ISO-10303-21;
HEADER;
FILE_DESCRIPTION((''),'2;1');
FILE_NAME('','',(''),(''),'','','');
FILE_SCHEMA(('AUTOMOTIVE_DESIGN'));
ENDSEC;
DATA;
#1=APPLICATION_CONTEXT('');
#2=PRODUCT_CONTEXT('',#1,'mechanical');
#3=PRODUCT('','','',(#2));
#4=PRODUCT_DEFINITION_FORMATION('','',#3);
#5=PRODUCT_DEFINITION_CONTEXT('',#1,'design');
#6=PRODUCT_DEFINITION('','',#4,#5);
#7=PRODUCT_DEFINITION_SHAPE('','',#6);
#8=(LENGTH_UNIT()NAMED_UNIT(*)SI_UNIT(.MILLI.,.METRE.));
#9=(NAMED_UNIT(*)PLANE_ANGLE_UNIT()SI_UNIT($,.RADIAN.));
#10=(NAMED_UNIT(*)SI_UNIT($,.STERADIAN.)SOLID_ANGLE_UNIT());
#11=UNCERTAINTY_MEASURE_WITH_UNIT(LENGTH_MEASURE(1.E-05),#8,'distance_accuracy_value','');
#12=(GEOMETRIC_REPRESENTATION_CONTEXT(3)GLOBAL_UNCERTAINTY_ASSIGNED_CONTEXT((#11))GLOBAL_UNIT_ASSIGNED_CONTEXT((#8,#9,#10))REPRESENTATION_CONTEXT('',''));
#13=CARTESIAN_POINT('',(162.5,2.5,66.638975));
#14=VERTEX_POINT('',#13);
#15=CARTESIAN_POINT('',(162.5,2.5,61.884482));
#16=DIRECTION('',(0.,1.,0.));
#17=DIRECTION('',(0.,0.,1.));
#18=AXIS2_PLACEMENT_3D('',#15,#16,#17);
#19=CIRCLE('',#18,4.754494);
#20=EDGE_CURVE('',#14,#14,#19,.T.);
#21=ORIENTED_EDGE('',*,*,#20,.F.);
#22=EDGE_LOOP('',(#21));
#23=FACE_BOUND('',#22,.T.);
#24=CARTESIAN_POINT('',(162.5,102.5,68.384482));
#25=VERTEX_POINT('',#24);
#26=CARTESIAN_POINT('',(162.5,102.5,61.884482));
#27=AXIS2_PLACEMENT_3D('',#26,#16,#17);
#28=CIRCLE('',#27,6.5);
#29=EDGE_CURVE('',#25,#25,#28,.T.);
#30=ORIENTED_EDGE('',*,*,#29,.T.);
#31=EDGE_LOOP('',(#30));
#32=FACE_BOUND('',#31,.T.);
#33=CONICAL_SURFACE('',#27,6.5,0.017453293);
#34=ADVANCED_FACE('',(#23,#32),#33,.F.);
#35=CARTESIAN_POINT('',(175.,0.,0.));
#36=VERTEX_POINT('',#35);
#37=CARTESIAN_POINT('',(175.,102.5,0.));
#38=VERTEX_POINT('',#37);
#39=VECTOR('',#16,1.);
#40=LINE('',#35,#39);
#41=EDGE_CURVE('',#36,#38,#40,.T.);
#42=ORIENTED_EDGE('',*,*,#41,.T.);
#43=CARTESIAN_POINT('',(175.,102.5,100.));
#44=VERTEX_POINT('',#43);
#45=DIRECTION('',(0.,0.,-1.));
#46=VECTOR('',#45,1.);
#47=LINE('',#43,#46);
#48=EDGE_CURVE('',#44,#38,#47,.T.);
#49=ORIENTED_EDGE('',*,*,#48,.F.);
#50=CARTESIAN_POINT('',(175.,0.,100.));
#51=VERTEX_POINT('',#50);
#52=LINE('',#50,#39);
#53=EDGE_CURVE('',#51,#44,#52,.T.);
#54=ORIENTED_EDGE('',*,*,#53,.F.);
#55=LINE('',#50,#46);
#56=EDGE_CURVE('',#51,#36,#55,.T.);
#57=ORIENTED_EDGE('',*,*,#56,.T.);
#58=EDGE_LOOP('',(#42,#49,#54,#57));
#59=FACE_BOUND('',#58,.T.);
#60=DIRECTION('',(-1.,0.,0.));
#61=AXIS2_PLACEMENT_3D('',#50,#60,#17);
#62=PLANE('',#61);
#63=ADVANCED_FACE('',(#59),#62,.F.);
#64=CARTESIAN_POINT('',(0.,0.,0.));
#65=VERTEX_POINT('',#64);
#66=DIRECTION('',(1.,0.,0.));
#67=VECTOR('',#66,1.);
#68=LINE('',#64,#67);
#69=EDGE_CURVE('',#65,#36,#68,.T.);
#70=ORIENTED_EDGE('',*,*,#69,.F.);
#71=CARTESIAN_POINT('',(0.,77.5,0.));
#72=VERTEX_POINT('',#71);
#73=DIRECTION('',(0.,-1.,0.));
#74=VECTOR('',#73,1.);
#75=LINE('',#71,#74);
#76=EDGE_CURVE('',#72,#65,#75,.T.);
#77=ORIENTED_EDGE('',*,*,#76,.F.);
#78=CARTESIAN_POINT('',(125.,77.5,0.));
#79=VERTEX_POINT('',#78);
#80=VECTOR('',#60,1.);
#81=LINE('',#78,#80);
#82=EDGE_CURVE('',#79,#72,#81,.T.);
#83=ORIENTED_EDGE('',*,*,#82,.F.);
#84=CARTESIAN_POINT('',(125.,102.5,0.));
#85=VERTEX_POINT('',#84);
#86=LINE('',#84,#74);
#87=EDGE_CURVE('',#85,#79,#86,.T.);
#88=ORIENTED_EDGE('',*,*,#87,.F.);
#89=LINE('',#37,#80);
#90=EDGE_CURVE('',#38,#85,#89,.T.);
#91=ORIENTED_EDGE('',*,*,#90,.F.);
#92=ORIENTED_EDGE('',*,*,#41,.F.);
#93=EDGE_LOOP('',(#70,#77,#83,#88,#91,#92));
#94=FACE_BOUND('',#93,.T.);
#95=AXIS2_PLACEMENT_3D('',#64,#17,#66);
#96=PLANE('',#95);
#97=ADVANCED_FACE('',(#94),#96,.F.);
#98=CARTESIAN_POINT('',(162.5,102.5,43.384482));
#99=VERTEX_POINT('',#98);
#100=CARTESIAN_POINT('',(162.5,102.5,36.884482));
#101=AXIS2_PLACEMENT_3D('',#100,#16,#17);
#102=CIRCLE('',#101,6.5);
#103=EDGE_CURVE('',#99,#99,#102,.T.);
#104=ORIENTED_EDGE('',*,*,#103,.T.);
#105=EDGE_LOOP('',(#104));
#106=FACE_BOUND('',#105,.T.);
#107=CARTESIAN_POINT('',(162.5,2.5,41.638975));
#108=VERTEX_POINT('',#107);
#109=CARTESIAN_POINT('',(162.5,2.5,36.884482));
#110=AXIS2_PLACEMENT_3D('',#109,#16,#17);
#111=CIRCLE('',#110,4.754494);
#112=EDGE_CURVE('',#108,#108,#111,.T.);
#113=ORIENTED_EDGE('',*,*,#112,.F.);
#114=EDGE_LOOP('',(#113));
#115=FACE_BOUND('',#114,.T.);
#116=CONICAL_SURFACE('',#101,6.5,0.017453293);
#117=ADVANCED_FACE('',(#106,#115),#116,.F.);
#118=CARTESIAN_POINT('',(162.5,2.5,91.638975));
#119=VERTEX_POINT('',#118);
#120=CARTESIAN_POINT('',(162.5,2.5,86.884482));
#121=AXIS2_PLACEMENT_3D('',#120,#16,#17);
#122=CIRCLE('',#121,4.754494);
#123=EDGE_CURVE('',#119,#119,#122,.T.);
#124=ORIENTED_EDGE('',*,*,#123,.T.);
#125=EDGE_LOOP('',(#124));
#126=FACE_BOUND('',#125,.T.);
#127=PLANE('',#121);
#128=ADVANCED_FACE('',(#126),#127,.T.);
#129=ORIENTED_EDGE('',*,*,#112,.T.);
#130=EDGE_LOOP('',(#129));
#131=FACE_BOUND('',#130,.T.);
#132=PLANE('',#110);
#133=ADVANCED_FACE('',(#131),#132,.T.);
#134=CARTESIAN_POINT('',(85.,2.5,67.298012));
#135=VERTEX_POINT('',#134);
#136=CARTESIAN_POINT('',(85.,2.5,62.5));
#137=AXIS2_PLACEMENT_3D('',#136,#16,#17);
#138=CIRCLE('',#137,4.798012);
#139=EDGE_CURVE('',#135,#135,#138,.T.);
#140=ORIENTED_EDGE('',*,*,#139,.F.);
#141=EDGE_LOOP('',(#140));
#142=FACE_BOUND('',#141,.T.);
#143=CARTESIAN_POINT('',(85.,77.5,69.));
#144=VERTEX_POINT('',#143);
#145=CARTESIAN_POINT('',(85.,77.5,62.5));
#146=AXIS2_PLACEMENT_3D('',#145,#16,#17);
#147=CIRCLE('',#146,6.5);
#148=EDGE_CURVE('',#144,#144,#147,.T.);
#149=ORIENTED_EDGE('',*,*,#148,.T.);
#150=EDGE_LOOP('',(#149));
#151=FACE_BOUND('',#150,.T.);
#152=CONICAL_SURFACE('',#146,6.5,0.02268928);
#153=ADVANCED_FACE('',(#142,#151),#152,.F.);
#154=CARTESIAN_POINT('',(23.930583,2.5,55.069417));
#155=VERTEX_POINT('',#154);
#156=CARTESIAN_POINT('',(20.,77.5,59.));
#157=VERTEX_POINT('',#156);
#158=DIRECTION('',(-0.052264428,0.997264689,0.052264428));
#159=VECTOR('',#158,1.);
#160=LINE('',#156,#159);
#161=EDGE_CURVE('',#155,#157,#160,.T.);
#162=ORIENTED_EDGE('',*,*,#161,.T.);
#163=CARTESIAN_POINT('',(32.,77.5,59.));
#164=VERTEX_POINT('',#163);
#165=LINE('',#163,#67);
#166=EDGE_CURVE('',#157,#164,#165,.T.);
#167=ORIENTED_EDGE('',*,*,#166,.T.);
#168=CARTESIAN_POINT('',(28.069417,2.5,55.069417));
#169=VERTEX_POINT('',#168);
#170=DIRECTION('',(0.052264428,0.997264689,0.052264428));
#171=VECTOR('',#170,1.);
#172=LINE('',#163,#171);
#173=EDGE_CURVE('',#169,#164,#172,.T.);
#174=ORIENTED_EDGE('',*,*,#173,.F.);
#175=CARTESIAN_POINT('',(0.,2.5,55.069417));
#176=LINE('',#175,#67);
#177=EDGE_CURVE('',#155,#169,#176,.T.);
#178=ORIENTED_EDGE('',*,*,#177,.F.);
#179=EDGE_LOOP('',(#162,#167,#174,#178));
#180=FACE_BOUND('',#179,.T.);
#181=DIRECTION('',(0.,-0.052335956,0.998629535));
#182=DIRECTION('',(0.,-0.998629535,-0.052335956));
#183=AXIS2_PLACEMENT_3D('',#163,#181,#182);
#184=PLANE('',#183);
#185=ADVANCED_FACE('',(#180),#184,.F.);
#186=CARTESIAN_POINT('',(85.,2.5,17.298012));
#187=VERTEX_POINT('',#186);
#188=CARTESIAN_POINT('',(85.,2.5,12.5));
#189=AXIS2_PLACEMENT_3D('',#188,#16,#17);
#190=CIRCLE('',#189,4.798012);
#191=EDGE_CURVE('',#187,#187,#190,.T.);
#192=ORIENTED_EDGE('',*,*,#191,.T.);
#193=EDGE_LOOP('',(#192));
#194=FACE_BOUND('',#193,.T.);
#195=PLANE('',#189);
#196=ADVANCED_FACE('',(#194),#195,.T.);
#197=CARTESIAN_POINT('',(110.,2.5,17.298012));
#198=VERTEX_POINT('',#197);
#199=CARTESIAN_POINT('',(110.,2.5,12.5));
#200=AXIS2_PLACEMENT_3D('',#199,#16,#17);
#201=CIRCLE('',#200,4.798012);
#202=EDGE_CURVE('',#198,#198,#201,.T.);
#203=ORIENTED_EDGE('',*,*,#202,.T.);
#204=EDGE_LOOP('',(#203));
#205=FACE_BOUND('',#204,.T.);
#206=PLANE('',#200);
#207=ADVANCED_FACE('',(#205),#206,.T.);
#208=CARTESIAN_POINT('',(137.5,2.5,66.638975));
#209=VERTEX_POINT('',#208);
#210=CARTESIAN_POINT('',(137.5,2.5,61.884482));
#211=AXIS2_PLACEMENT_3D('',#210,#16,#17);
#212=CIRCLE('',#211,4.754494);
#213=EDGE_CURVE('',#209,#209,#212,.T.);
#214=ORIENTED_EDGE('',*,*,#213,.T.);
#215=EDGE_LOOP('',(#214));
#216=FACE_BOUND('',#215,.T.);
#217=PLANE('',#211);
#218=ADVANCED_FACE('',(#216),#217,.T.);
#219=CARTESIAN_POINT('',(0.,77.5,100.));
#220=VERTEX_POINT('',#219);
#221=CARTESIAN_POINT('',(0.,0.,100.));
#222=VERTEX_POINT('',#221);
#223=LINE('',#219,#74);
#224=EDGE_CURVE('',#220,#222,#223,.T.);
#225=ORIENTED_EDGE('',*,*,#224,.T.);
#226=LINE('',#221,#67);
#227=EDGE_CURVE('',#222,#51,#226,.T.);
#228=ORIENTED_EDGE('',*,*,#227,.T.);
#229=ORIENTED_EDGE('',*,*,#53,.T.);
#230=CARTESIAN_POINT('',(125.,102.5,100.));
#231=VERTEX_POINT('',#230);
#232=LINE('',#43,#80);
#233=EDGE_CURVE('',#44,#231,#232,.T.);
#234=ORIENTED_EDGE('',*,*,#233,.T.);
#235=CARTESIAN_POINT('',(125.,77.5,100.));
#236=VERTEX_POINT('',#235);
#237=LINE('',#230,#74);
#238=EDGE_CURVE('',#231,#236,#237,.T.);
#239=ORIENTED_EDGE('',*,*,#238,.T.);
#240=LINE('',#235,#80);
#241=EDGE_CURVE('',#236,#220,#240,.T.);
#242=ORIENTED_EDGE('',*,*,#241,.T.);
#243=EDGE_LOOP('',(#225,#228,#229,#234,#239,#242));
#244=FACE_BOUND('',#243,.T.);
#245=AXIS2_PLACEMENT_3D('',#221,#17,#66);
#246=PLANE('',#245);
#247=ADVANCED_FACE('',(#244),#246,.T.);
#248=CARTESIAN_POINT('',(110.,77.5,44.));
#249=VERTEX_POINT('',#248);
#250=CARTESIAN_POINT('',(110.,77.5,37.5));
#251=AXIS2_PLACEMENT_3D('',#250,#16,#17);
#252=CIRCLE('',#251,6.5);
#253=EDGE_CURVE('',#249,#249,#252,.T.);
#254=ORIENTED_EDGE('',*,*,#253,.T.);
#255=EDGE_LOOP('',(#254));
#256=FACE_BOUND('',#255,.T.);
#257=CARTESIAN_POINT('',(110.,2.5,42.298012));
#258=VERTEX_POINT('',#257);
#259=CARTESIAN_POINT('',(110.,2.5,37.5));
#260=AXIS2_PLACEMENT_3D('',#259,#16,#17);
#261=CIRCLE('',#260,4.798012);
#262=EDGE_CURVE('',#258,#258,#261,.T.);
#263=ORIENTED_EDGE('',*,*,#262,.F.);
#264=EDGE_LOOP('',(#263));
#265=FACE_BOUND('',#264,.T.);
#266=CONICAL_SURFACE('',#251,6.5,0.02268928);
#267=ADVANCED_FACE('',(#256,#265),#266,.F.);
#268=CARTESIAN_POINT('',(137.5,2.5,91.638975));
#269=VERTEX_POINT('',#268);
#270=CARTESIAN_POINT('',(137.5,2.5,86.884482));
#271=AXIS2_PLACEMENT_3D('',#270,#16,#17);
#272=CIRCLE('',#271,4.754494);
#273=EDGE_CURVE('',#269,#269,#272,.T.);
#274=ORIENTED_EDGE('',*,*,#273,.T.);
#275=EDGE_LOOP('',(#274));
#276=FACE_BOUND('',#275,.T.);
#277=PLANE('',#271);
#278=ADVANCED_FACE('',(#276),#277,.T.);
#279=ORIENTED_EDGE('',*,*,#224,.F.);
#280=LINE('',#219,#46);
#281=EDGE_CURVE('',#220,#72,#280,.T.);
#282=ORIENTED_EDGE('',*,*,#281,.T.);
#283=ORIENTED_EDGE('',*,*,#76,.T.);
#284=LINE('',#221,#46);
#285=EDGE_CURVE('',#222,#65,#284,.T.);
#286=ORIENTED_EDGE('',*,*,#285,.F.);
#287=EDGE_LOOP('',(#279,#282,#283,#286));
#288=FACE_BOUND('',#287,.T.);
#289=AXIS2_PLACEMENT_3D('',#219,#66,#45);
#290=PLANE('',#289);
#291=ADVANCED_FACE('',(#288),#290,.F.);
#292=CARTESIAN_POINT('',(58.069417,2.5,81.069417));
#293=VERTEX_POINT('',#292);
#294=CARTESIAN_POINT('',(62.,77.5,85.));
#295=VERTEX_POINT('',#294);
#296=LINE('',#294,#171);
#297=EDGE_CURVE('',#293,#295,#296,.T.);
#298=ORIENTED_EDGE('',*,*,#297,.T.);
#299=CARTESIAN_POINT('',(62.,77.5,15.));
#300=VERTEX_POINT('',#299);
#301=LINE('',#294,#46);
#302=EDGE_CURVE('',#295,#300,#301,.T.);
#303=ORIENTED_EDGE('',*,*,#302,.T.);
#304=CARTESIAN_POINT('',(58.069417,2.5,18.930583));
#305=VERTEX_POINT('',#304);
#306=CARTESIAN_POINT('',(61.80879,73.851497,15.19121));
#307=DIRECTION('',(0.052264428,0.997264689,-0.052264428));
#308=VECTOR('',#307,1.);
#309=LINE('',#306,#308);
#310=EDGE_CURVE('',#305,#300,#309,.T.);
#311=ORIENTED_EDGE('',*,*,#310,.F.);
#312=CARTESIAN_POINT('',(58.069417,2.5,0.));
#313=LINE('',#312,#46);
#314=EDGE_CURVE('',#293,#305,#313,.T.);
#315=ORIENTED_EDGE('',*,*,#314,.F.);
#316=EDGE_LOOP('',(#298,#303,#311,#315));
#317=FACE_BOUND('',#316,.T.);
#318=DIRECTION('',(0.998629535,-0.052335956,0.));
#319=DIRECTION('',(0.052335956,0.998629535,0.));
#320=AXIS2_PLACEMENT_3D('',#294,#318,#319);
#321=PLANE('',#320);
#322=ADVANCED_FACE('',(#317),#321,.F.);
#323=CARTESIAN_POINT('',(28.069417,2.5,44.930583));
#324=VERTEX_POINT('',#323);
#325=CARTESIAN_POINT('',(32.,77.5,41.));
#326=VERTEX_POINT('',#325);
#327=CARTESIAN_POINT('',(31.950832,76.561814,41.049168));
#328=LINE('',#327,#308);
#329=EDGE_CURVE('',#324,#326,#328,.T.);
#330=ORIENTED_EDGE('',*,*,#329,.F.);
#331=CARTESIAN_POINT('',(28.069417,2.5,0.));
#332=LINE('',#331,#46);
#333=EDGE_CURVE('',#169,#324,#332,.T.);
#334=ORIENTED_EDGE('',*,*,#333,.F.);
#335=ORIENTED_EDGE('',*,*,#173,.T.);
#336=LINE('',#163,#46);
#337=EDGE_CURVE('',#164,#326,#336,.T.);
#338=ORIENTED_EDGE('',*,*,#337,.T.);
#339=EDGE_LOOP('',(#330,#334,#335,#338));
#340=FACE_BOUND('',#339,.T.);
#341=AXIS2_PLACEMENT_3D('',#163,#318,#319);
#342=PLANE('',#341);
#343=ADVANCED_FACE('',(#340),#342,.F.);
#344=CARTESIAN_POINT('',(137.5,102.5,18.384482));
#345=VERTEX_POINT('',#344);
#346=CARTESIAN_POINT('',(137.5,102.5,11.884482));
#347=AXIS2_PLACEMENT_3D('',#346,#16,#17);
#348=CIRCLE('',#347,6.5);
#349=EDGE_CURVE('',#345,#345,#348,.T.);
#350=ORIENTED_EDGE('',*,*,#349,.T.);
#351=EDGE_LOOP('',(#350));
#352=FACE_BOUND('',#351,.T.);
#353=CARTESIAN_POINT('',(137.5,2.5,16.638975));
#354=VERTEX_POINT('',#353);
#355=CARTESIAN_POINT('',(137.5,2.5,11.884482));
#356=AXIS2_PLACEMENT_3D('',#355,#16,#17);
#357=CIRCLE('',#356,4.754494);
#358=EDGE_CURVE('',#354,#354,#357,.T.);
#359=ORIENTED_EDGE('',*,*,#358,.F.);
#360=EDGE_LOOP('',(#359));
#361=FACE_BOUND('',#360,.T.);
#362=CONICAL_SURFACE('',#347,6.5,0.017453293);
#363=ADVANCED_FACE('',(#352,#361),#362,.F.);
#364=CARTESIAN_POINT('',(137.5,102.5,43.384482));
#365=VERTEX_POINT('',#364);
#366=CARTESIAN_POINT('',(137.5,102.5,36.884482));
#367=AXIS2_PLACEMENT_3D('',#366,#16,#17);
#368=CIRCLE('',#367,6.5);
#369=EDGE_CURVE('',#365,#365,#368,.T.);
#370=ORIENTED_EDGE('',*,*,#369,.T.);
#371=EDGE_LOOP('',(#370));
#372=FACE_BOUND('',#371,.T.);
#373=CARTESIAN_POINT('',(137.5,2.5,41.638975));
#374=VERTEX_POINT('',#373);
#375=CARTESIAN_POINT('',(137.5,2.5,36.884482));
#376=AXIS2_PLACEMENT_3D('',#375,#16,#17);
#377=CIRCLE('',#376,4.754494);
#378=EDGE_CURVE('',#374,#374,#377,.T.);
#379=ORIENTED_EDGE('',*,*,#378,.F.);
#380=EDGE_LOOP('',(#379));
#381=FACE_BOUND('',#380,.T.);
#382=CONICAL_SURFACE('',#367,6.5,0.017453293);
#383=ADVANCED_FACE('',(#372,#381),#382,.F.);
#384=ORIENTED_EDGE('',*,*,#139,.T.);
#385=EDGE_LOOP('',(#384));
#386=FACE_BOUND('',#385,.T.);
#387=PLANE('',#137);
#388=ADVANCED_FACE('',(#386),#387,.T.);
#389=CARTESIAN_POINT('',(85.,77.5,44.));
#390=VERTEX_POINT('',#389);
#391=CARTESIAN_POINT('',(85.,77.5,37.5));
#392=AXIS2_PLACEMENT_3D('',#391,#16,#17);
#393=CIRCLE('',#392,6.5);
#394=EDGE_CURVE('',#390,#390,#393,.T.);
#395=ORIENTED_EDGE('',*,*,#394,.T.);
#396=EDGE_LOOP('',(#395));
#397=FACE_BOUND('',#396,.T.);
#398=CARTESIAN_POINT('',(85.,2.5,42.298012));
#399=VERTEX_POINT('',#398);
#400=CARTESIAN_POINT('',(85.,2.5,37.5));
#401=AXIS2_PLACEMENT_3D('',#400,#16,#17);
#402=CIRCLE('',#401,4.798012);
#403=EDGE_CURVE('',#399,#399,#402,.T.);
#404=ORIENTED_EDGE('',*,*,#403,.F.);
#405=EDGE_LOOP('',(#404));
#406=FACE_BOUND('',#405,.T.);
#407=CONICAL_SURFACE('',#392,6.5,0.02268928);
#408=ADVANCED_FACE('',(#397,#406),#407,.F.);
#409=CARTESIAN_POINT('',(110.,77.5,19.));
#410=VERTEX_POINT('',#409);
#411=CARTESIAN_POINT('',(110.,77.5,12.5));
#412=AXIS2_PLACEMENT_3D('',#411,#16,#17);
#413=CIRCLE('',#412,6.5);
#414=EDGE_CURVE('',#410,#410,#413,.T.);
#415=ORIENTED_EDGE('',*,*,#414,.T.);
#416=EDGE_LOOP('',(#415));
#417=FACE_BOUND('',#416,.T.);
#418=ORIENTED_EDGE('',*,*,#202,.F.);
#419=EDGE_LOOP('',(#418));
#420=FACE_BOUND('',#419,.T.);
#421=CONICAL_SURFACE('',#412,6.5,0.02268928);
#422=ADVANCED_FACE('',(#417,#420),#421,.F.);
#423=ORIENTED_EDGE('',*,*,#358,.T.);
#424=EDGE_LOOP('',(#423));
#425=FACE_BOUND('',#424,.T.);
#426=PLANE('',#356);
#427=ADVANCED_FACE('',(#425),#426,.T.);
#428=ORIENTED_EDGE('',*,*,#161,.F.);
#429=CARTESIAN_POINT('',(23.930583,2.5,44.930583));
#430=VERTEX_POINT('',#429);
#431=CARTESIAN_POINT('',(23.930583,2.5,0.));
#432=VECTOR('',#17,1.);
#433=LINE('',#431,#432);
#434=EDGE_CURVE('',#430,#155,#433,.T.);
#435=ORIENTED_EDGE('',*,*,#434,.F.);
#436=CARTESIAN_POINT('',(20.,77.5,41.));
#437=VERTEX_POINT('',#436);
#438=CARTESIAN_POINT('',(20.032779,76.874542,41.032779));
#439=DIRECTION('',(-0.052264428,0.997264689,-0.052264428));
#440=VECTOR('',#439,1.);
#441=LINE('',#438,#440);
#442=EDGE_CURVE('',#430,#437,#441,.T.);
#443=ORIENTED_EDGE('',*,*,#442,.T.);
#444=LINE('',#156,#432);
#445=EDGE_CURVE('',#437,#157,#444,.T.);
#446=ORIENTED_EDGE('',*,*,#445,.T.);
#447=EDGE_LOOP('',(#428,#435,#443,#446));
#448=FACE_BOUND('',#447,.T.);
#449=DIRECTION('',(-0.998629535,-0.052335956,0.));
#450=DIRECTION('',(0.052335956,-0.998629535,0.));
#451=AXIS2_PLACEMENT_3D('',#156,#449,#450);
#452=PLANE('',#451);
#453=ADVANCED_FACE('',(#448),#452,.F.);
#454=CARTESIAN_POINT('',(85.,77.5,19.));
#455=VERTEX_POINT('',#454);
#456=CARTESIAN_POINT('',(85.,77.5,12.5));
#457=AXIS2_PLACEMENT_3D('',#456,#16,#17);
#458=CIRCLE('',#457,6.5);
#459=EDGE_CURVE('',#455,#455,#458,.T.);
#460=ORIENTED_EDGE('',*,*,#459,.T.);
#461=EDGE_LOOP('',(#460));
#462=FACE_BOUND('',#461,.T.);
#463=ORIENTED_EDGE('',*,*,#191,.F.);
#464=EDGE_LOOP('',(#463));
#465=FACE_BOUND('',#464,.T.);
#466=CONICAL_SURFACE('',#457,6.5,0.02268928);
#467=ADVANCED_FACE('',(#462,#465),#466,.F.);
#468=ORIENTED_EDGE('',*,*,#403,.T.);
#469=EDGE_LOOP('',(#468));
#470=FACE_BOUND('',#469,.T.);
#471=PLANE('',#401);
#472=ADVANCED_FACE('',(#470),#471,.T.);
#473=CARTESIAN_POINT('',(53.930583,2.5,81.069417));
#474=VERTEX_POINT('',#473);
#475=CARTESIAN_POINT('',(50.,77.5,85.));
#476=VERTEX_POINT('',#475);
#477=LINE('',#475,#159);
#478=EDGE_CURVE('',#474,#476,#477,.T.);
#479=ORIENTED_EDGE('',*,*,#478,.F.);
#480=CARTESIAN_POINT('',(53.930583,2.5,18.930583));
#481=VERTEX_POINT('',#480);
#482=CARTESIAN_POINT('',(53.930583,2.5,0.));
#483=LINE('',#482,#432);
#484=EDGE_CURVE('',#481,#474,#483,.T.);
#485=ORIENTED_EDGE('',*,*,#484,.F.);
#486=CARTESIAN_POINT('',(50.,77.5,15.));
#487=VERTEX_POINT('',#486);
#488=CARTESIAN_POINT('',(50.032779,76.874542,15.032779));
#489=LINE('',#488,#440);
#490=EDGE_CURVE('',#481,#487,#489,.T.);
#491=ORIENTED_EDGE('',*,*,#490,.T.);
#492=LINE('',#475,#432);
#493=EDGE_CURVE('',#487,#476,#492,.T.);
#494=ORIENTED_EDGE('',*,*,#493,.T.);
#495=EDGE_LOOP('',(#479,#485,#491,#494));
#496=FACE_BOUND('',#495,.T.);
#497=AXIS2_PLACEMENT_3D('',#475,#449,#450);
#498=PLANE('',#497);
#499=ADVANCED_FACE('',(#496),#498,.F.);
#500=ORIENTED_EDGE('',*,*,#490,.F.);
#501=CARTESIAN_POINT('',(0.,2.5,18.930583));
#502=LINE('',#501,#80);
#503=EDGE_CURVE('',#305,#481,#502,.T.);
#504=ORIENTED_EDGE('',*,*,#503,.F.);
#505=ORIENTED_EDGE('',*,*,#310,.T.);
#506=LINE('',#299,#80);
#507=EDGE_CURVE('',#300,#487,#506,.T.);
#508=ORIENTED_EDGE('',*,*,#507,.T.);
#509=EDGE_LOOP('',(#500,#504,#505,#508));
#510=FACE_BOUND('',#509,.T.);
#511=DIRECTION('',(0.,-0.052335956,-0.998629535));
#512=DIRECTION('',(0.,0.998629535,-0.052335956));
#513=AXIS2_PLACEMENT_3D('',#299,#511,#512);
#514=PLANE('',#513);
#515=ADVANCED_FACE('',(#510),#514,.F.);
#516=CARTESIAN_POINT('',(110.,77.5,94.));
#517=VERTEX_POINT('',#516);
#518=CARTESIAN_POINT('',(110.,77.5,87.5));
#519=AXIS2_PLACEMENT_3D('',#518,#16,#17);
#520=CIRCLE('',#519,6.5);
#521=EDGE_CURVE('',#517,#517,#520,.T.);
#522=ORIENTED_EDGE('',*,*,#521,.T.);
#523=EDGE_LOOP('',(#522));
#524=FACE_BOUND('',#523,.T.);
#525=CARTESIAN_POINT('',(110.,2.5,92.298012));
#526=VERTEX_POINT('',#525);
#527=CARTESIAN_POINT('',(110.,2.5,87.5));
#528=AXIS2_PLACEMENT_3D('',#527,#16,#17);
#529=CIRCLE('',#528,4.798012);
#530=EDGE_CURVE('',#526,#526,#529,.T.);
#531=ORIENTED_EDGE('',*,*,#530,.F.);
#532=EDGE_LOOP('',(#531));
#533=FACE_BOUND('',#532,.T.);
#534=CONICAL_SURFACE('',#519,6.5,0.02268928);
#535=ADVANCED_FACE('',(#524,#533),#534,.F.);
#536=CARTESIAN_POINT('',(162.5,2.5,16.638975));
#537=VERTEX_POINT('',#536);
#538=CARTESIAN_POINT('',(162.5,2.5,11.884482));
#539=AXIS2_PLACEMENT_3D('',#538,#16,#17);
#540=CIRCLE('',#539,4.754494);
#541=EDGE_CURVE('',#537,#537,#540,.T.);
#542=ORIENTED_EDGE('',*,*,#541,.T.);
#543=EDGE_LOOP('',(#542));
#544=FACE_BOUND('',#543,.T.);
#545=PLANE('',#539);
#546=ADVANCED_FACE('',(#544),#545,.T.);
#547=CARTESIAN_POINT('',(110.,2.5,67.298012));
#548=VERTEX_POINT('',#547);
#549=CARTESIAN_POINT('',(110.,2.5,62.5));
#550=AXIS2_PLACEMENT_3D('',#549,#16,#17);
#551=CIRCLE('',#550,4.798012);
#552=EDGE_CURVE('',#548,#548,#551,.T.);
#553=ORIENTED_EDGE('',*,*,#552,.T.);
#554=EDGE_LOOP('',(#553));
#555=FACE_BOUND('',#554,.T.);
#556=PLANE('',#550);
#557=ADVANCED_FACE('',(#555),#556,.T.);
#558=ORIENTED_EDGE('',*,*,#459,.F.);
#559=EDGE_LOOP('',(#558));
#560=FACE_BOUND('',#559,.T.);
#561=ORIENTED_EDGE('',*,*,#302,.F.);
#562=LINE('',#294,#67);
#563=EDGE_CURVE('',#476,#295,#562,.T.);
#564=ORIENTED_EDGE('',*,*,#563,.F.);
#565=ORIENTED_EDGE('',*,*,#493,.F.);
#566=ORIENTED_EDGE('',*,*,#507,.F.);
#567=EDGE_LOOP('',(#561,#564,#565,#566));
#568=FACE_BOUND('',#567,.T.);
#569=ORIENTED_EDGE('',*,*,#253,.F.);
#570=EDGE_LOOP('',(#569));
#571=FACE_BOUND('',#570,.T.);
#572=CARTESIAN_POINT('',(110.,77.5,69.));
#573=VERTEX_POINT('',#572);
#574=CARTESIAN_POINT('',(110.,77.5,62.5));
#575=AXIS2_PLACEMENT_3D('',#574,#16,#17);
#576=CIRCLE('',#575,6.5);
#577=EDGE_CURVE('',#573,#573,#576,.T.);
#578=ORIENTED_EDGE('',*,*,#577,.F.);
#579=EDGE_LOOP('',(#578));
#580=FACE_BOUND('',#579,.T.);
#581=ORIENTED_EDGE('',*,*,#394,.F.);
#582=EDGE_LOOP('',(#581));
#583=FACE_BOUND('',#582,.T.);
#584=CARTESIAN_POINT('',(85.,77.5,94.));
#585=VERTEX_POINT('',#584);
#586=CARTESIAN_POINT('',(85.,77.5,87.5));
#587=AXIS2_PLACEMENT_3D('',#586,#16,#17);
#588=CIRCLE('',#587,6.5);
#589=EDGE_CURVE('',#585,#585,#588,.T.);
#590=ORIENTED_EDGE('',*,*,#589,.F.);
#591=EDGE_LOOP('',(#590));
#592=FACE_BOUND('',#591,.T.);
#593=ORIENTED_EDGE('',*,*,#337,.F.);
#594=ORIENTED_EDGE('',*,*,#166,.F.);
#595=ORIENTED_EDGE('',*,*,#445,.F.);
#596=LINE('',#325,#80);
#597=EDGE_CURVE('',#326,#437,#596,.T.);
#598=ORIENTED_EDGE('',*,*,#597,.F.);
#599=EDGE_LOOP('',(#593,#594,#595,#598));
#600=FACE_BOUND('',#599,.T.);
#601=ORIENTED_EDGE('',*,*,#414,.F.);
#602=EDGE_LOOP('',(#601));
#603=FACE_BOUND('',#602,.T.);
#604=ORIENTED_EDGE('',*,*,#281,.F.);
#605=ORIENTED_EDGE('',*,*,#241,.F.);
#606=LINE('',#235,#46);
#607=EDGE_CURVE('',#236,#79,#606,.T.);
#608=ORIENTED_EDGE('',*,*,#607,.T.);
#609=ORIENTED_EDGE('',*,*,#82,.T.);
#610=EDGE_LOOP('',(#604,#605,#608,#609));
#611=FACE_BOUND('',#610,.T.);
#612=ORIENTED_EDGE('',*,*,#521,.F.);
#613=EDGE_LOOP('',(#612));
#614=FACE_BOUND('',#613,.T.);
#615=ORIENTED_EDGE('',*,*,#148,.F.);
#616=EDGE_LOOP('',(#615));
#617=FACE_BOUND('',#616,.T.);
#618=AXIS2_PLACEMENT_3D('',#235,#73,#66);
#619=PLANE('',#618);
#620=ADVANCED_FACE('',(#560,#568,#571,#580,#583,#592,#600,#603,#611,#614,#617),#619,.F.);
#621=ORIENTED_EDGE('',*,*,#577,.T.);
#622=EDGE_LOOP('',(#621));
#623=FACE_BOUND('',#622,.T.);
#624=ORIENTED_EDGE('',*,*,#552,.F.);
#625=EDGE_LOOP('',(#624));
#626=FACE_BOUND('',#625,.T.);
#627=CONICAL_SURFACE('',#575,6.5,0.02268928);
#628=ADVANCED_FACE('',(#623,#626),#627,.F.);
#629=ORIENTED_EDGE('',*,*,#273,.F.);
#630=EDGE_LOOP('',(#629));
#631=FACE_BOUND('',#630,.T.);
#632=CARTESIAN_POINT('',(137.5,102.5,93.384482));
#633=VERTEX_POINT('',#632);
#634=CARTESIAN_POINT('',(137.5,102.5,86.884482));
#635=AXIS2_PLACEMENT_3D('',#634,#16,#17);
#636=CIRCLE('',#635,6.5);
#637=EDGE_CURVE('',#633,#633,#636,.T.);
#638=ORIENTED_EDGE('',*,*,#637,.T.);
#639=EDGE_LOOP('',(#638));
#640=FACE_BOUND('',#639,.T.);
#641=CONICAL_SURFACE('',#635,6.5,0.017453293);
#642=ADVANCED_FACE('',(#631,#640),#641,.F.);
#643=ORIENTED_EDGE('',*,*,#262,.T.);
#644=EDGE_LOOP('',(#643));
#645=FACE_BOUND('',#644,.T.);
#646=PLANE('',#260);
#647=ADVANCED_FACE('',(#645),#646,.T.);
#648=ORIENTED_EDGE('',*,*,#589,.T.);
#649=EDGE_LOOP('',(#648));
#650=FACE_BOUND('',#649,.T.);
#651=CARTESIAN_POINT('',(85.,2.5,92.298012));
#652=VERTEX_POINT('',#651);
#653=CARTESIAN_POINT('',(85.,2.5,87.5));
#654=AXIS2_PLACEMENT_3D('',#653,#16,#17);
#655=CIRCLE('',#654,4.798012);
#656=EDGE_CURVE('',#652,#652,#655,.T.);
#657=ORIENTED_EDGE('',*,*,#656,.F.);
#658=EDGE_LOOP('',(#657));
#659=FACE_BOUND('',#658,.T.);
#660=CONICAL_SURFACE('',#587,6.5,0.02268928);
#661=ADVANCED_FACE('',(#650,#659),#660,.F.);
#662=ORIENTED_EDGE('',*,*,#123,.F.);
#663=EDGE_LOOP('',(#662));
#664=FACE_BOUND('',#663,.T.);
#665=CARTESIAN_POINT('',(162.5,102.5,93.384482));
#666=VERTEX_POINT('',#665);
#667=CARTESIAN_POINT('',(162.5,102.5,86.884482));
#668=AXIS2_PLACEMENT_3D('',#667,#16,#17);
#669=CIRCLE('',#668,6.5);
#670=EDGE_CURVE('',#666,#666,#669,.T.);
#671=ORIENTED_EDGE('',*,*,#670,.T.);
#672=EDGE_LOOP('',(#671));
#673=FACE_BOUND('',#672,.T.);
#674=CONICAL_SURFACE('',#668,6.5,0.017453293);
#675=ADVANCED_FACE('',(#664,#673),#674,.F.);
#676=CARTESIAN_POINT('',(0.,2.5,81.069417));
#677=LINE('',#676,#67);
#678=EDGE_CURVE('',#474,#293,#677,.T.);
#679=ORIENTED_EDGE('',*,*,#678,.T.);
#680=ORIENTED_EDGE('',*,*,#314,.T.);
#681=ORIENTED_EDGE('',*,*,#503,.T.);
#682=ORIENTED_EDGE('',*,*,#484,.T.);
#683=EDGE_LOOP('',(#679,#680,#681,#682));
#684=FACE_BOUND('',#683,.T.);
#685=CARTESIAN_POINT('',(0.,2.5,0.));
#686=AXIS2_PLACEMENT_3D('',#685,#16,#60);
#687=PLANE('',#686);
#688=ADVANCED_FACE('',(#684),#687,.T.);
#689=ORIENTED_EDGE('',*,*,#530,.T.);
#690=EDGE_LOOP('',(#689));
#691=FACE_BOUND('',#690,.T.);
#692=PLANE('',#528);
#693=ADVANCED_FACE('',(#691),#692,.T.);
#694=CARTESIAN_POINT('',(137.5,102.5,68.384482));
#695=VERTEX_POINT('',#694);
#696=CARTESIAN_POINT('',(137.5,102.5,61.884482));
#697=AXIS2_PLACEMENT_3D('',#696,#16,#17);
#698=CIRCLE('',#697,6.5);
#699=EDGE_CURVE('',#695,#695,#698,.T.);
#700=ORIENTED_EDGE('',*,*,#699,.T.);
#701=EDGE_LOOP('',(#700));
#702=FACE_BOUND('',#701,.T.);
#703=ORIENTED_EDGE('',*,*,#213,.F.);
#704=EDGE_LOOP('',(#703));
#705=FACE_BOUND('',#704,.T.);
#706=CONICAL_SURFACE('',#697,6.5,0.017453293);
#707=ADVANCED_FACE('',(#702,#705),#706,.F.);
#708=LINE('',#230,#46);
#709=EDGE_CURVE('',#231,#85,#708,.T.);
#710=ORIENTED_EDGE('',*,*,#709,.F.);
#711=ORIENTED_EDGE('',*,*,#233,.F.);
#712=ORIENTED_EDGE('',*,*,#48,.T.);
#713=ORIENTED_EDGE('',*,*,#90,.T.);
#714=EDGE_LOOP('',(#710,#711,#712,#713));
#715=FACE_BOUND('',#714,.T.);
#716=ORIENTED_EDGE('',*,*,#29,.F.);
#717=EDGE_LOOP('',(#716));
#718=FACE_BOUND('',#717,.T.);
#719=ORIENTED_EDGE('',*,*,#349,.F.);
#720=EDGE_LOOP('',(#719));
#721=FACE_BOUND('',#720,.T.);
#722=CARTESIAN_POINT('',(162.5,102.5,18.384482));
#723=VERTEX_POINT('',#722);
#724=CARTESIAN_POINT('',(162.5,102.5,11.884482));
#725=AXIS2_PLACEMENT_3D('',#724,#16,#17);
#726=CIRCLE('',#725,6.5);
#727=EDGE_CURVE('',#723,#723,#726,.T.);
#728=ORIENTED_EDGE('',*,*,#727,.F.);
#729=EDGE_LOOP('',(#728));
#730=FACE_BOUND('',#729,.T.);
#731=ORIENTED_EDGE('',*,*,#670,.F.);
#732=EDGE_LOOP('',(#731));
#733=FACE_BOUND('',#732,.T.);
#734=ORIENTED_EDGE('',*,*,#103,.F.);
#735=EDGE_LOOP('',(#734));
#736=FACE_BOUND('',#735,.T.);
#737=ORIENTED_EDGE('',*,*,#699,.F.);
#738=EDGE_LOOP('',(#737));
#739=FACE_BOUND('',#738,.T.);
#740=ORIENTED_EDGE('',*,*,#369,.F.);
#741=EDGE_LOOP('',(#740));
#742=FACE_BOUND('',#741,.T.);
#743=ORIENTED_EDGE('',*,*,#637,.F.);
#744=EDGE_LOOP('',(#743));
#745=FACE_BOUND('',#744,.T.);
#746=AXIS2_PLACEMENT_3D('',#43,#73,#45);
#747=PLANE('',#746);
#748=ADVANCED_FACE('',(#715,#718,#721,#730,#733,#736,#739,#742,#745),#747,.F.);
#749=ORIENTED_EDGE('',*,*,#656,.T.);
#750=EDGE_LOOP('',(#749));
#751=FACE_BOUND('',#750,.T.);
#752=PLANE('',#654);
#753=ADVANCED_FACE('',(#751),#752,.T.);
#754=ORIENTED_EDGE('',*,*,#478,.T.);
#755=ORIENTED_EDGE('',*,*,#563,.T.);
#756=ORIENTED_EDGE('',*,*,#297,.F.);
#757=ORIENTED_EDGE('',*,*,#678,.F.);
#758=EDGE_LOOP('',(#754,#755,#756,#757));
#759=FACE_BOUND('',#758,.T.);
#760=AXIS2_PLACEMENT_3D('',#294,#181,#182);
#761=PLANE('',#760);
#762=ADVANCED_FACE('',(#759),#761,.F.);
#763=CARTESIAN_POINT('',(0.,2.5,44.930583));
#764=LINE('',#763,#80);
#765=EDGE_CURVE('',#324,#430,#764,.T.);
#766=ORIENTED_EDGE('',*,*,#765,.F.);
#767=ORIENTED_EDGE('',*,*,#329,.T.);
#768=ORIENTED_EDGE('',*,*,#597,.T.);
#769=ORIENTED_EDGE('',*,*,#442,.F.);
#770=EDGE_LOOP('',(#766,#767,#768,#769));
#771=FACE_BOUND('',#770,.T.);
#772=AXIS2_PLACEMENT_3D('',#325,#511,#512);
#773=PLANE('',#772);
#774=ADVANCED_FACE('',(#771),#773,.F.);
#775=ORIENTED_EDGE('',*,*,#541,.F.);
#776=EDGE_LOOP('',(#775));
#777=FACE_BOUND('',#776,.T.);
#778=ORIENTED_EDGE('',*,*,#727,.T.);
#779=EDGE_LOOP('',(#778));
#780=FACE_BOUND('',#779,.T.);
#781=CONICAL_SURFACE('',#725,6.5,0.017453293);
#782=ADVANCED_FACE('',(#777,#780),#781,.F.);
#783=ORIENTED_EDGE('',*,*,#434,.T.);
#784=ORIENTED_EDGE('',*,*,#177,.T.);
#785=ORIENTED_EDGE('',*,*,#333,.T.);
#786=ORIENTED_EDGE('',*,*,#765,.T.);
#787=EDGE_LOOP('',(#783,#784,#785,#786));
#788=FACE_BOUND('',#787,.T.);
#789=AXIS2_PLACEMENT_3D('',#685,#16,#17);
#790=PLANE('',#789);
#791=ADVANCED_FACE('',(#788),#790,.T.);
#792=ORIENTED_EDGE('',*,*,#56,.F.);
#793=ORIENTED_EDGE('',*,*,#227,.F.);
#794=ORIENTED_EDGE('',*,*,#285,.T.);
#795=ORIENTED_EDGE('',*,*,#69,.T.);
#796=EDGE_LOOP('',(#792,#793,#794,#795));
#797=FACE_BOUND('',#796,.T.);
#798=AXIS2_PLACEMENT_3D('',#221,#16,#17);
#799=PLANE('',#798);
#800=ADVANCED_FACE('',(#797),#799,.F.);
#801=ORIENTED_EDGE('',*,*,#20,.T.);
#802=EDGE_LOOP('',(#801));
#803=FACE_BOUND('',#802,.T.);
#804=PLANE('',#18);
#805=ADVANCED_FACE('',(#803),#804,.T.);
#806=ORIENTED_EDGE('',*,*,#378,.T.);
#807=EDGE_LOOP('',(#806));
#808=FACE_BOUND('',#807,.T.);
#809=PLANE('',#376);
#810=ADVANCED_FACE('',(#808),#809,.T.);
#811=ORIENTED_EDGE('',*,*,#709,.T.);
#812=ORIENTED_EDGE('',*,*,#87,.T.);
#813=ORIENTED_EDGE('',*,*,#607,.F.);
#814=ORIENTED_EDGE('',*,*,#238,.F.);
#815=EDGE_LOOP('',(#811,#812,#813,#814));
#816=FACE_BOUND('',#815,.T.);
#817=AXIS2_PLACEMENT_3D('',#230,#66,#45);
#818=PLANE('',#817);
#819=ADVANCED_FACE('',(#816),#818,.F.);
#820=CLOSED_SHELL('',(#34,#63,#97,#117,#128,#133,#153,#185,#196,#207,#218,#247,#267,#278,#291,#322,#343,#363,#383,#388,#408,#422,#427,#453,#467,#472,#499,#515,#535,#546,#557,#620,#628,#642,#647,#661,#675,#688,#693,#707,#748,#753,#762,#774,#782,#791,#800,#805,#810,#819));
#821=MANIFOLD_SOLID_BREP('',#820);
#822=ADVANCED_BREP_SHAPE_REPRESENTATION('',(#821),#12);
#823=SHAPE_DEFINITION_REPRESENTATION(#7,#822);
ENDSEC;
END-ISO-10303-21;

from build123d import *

# Parameters (mm, degrees)
BLOCK_DEPTH                      = 100
SKETCH2_R                        = 6.5
SHARPIE_DEPTH                    = 75
SHARPIE_DRAFT                    = -1.3
SHARPIE_PROFILE_2_DEPTH          = 75
SHARPIE_PROFILE_2_DRAFT          = -1.3
SHARPIE_PROFILE_3_DEPTH          = 75
SHARPIE_PROFILE_3_DRAFT          = -1.3
SHARPIE_PROFILE_4_DEPTH          = 75
SHARPIE_PROFILE_4_DRAFT          = -1.3
SHARPIE_PROFILE_5_DEPTH          = 75
SHARPIE_PROFILE_5_DRAFT          = -1.3
SHARPIE_PROFILE_6_DEPTH          = 75
SHARPIE_PROFILE_6_DRAFT          = -1.3
SHARPIE_PROFILE_7_DEPTH          = 75
SHARPIE_PROFILE_7_DRAFT          = -1.3
SHARPIE_PROFILE_8_DEPTH          = 75
SHARPIE_PROFILE_8_DRAFT          = -1.3
SKETCH3_R                        = 6.5
PREC_SCREWDRIVER_DEPTH           = 100
PREC_SCREWDRIVER_DRAFT           = -1
PREC_SCREWDRIVER_PROFILE_2_DEPTH = 100
PREC_SCREWDRIVER_PROFILE_2_DRAFT = -1
PREC_SCREWDRIVER_PROFILE_3_DEPTH = 100
PREC_SCREWDRIVER_PROFILE_3_DRAFT = -1
PREC_SCREWDRIVER_PROFILE_4_DEPTH = 100
PREC_SCREWDRIVER_PROFILE_4_DRAFT = -1
PREC_SCREWDRIVER_PROFILE_5_DEPTH = 100
PREC_SCREWDRIVER_PROFILE_5_DRAFT = -1
PREC_SCREWDRIVER_PROFILE_6_DEPTH = 100
PREC_SCREWDRIVER_PROFILE_6_DRAFT = -1
PREC_SCREWDRIVER_PROFILE_7_DEPTH = 100
PREC_SCREWDRIVER_PROFILE_7_DRAFT = -1
PREC_SCREWDRIVER_PROFILE_8_DEPTH = 100
PREC_SCREWDRIVER_PROFILE_8_DRAFT = -1
SKETCH4_W                        = 12
SKETCH4_H                        = 70
NEEDLE_NOSE_DEPTH                = 75
NEEDLE_NOSE_DRAFT                = -3
SKETCH6_W                        = 12
SKETCH6_H                        = 18
SCISSOR_DEPTH                    = 75
SCISSOR_DRAFT                    = -3


with BuildPart() as part:
    # Sketch1 → block (new body)
    with BuildSketch(Plane.XY):
        Polygon((0, 0), (175, 0), (175, 102.5), (125, 102.5), (125, 77.5), (0, 77.5), align=None)
    extrude(amount=BLOCK_DEPTH)


with BuildPart() as sharpie_tool:
    # Sketch2 → sharpie (with draft: the straight prism first)
    with BuildSketch(Plane(origin=(0, 77.5, 0), x_dir=(1, 0, 0), z_dir=(0, 1, 0))):
        with Locations((85, -12.5)):
            Circle(SKETCH2_R)
    extrude(amount=-SHARPIE_DEPTH)
    # sharpie: the draft: its side faces are tilted about the plane it starts from
    sharpie_sides = [sharpie_tool.faces().sort_by_distance(p)[0] for p in [
        (78.5, 40, 12.5),
    ]]
    draft(sharpie_sides, Plane(origin=(0, 77.5, 0), x_dir=(1, 0, 0), z_dir=(0, 1, 0)), SHARPIE_DRAFT)


with BuildPart() as part_1:
    add(part.part)

    # sharpie: cut by sharpie_tool
    add(sharpie_tool.part, mode=Mode.SUBTRACT)


with BuildPart() as sharpie_profile_2_tool:
    # Sketch2 → sharpie profile 2 (with draft: the straight prism first)
    with BuildSketch(Plane(origin=(0, 77.5, 0), x_dir=(1, 0, 0), z_dir=(0, 1, 0))):
        with Locations((110, -12.5)):
            Circle(SKETCH2_R)
    extrude(amount=-SHARPIE_PROFILE_2_DEPTH)
    # sharpie profile 2: the draft: its side faces are tilted about the plane it starts from
    sharpie_profile_2_sides = [sharpie_profile_2_tool.faces().sort_by_distance(p)[0] for p in [
        (103.5, 40, 12.5),
    ]]
    draft(sharpie_profile_2_sides, Plane(origin=(0, 77.5, 0), x_dir=(1, 0, 0), z_dir=(0, 1, 0)), SHARPIE_PROFILE_2_DRAFT)


with BuildPart() as part_2:
    add(part_1.part)

    # sharpie profile 2: cut by sharpie_profile_2_tool
    add(sharpie_profile_2_tool.part, mode=Mode.SUBTRACT)


with BuildPart() as sharpie_profile_3_tool:
    # Sketch2 → sharpie profile 3 (with draft: the straight prism first)
    with BuildSketch(Plane(origin=(0, 77.5, 0), x_dir=(1, 0, 0), z_dir=(0, 1, 0))):
        with Locations((110, -37.5)):
            Circle(SKETCH2_R)
    extrude(amount=-SHARPIE_PROFILE_3_DEPTH)
    # sharpie profile 3: the draft: its side faces are tilted about the plane it starts from
    sharpie_profile_3_sides = [sharpie_profile_3_tool.faces().sort_by_distance(p)[0] for p in [
        (103.5, 40, 37.5),
    ]]
    draft(sharpie_profile_3_sides, Plane(origin=(0, 77.5, 0), x_dir=(1, 0, 0), z_dir=(0, 1, 0)), SHARPIE_PROFILE_3_DRAFT)


with BuildPart() as part_3:
    add(part_2.part)

    # sharpie profile 3: cut by sharpie_profile_3_tool
    add(sharpie_profile_3_tool.part, mode=Mode.SUBTRACT)


with BuildPart() as sharpie_profile_4_tool:
    # Sketch2 → sharpie profile 4 (with draft: the straight prism first)
    with BuildSketch(Plane(origin=(0, 77.5, 0), x_dir=(1, 0, 0), z_dir=(0, 1, 0))):
        with Locations((110, -62.5)):
            Circle(SKETCH2_R)
    extrude(amount=-SHARPIE_PROFILE_4_DEPTH)
    # sharpie profile 4: the draft: its side faces are tilted about the plane it starts from
    sharpie_profile_4_sides = [sharpie_profile_4_tool.faces().sort_by_distance(p)[0] for p in [
        (103.5, 40, 62.5),
    ]]
    draft(sharpie_profile_4_sides, Plane(origin=(0, 77.5, 0), x_dir=(1, 0, 0), z_dir=(0, 1, 0)), SHARPIE_PROFILE_4_DRAFT)


with BuildPart() as part_4:
    add(part_3.part)

    # sharpie profile 4: cut by sharpie_profile_4_tool
    add(sharpie_profile_4_tool.part, mode=Mode.SUBTRACT)


with BuildPart() as sharpie_profile_5_tool:
    # Sketch2 → sharpie profile 5 (with draft: the straight prism first)
    with BuildSketch(Plane(origin=(0, 77.5, 0), x_dir=(1, 0, 0), z_dir=(0, 1, 0))):
        with Locations((110, -87.5)):
            Circle(SKETCH2_R)
    extrude(amount=-SHARPIE_PROFILE_5_DEPTH)
    # sharpie profile 5: the draft: its side faces are tilted about the plane it starts from
    sharpie_profile_5_sides = [sharpie_profile_5_tool.faces().sort_by_distance(p)[0] for p in [
        (103.5, 40, 87.5),
    ]]
    draft(sharpie_profile_5_sides, Plane(origin=(0, 77.5, 0), x_dir=(1, 0, 0), z_dir=(0, 1, 0)), SHARPIE_PROFILE_5_DRAFT)


with BuildPart() as part_5:
    add(part_4.part)

    # sharpie profile 5: cut by sharpie_profile_5_tool
    add(sharpie_profile_5_tool.part, mode=Mode.SUBTRACT)


with BuildPart() as sharpie_profile_6_tool:
    # Sketch2 → sharpie profile 6 (with draft: the straight prism first)
    with BuildSketch(Plane(origin=(0, 77.5, 0), x_dir=(1, 0, 0), z_dir=(0, 1, 0))):
        with Locations((85, -37.5)):
            Circle(SKETCH2_R)
    extrude(amount=-SHARPIE_PROFILE_6_DEPTH)
    # sharpie profile 6: the draft: its side faces are tilted about the plane it starts from
    sharpie_profile_6_sides = [sharpie_profile_6_tool.faces().sort_by_distance(p)[0] for p in [
        (78.5, 40, 37.5),
    ]]
    draft(sharpie_profile_6_sides, Plane(origin=(0, 77.5, 0), x_dir=(1, 0, 0), z_dir=(0, 1, 0)), SHARPIE_PROFILE_6_DRAFT)


with BuildPart() as part_6:
    add(part_5.part)

    # sharpie profile 6: cut by sharpie_profile_6_tool
    add(sharpie_profile_6_tool.part, mode=Mode.SUBTRACT)


with BuildPart() as sharpie_profile_7_tool:
    # Sketch2 → sharpie profile 7 (with draft: the straight prism first)
    with BuildSketch(Plane(origin=(0, 77.5, 0), x_dir=(1, 0, 0), z_dir=(0, 1, 0))):
        with Locations((85, -62.5)):
            Circle(SKETCH2_R)
    extrude(amount=-SHARPIE_PROFILE_7_DEPTH)
    # sharpie profile 7: the draft: its side faces are tilted about the plane it starts from
    sharpie_profile_7_sides = [sharpie_profile_7_tool.faces().sort_by_distance(p)[0] for p in [
        (78.5, 40, 62.5),
    ]]
    draft(sharpie_profile_7_sides, Plane(origin=(0, 77.5, 0), x_dir=(1, 0, 0), z_dir=(0, 1, 0)), SHARPIE_PROFILE_7_DRAFT)


with BuildPart() as part_7:
    add(part_6.part)

    # sharpie profile 7: cut by sharpie_profile_7_tool
    add(sharpie_profile_7_tool.part, mode=Mode.SUBTRACT)


with BuildPart() as sharpie_profile_8_tool:
    # Sketch2 → sharpie profile 8 (with draft: the straight prism first)
    with BuildSketch(Plane(origin=(0, 77.5, 0), x_dir=(1, 0, 0), z_dir=(0, 1, 0))):
        with Locations((85, -87.5)):
            Circle(SKETCH2_R)
    extrude(amount=-SHARPIE_PROFILE_8_DEPTH)
    # sharpie profile 8: the draft: its side faces are tilted about the plane it starts from
    sharpie_profile_8_sides = [sharpie_profile_8_tool.faces().sort_by_distance(p)[0] for p in [
        (78.5, 40, 87.5),
    ]]
    draft(sharpie_profile_8_sides, Plane(origin=(0, 77.5, 0), x_dir=(1, 0, 0), z_dir=(0, 1, 0)), SHARPIE_PROFILE_8_DRAFT)


with BuildPart() as part_8:
    add(part_7.part)

    # sharpie profile 8: cut by sharpie_profile_8_tool
    add(sharpie_profile_8_tool.part, mode=Mode.SUBTRACT)


with BuildPart() as prec_screwdriver_tool:
    # Sketch3 → prec screwdriver (with draft: the straight prism first)
    with BuildSketch(Plane(origin=(0, 102.5, 0), x_dir=(1, 0, 0), z_dir=(0, 1, 0))):
        with Locations((137.5, -11.884481683)):
            Circle(SKETCH3_R)
    extrude(amount=-PREC_SCREWDRIVER_DEPTH)
    # prec screwdriver: the draft: its side faces are tilted about the plane it starts from
    prec_screwdriver_sides = [prec_screwdriver_tool.faces().sort_by_distance(p)[0] for p in [
        (131, 52.5, 11.884481683),
    ]]
    draft(prec_screwdriver_sides, Plane(origin=(0, 102.5, 0), x_dir=(1, 0, 0), z_dir=(0, 1, 0)), PREC_SCREWDRIVER_DRAFT)


with BuildPart() as part_9:
    add(part_8.part)

    # prec screwdriver: cut by prec_screwdriver_tool
    add(prec_screwdriver_tool.part, mode=Mode.SUBTRACT)


with BuildPart() as prec_screwdriver_profile_2_tool:
    # Sketch3 → prec screwdriver profile 2 (with draft: the straight prism first)
    with BuildSketch(Plane(origin=(0, 102.5, 0), x_dir=(1, 0, 0), z_dir=(0, 1, 0))):
        with Locations((162.5, -11.884481683)):
            Circle(SKETCH3_R)
    extrude(amount=-PREC_SCREWDRIVER_PROFILE_2_DEPTH)
    # prec screwdriver profile 2: the draft: its side faces are tilted about the plane it starts from
    prec_screwdriver_profile_2_sides = [prec_screwdriver_profile_2_tool.faces().sort_by_distance(p)[0] for p in [
        (156, 52.5, 11.884481683),
    ]]
    draft(prec_screwdriver_profile_2_sides, Plane(origin=(0, 102.5, 0), x_dir=(1, 0, 0), z_dir=(0, 1, 0)), PREC_SCREWDRIVER_PROFILE_2_DRAFT)


with BuildPart() as part_10:
    add(part_9.part)

    # prec screwdriver profile 2: cut by prec_screwdriver_profile_2_tool
    add(prec_screwdriver_profile_2_tool.part, mode=Mode.SUBTRACT)


with BuildPart() as prec_screwdriver_profile_3_tool:
    # Sketch3 → prec screwdriver profile 3 (with draft: the straight prism first)
    with BuildSketch(Plane(origin=(0, 102.5, 0), x_dir=(1, 0, 0), z_dir=(0, 1, 0))):
        with Locations((162.5, -36.884481683)):
            Circle(SKETCH3_R)
    extrude(amount=-PREC_SCREWDRIVER_PROFILE_3_DEPTH)
    # prec screwdriver profile 3: the draft: its side faces are tilted about the plane it starts from
    prec_screwdriver_profile_3_sides = [prec_screwdriver_profile_3_tool.faces().sort_by_distance(p)[0] for p in [
        (156, 52.5, 36.884481683),
    ]]
    draft(prec_screwdriver_profile_3_sides, Plane(origin=(0, 102.5, 0), x_dir=(1, 0, 0), z_dir=(0, 1, 0)), PREC_SCREWDRIVER_PROFILE_3_DRAFT)


with BuildPart() as part_11:
    add(part_10.part)

    # prec screwdriver profile 3: cut by prec_screwdriver_profile_3_tool
    add(prec_screwdriver_profile_3_tool.part, mode=Mode.SUBTRACT)


with BuildPart() as prec_screwdriver_profile_4_tool:
    # Sketch3 → prec screwdriver profile 4 (with draft: the straight prism first)
    with BuildSketch(Plane(origin=(0, 102.5, 0), x_dir=(1, 0, 0), z_dir=(0, 1, 0))):
        with Locations((162.5, -61.884481683)):
            Circle(SKETCH3_R)
    extrude(amount=-PREC_SCREWDRIVER_PROFILE_4_DEPTH)
    # prec screwdriver profile 4: the draft: its side faces are tilted about the plane it starts from
    prec_screwdriver_profile_4_sides = [prec_screwdriver_profile_4_tool.faces().sort_by_distance(p)[0] for p in [
        (156, 52.5, 61.884481683),
    ]]
    draft(prec_screwdriver_profile_4_sides, Plane(origin=(0, 102.5, 0), x_dir=(1, 0, 0), z_dir=(0, 1, 0)), PREC_SCREWDRIVER_PROFILE_4_DRAFT)


with BuildPart() as part_12:
    add(part_11.part)

    # prec screwdriver profile 4: cut by prec_screwdriver_profile_4_tool
    add(prec_screwdriver_profile_4_tool.part, mode=Mode.SUBTRACT)


with BuildPart() as prec_screwdriver_profile_5_tool:
    # Sketch3 → prec screwdriver profile 5 (with draft: the straight prism first)
    with BuildSketch(Plane(origin=(0, 102.5, 0), x_dir=(1, 0, 0), z_dir=(0, 1, 0))):
        with Locations((162.5, -86.884481683)):
            Circle(SKETCH3_R)
    extrude(amount=-PREC_SCREWDRIVER_PROFILE_5_DEPTH)
    # prec screwdriver profile 5: the draft: its side faces are tilted about the plane it starts from
    prec_screwdriver_profile_5_sides = [prec_screwdriver_profile_5_tool.faces().sort_by_distance(p)[0] for p in [
        (156, 52.5, 86.884481683),
    ]]
    draft(prec_screwdriver_profile_5_sides, Plane(origin=(0, 102.5, 0), x_dir=(1, 0, 0), z_dir=(0, 1, 0)), PREC_SCREWDRIVER_PROFILE_5_DRAFT)


with BuildPart() as part_13:
    add(part_12.part)

    # prec screwdriver profile 5: cut by prec_screwdriver_profile_5_tool
    add(prec_screwdriver_profile_5_tool.part, mode=Mode.SUBTRACT)


with BuildPart() as prec_screwdriver_profile_6_tool:
    # Sketch3 → prec screwdriver profile 6 (with draft: the straight prism first)
    with BuildSketch(Plane(origin=(0, 102.5, 0), x_dir=(1, 0, 0), z_dir=(0, 1, 0))):
        with Locations((137.5, -36.884481683)):
            Circle(SKETCH3_R)
    extrude(amount=-PREC_SCREWDRIVER_PROFILE_6_DEPTH)
    # prec screwdriver profile 6: the draft: its side faces are tilted about the plane it starts from
    prec_screwdriver_profile_6_sides = [prec_screwdriver_profile_6_tool.faces().sort_by_distance(p)[0] for p in [
        (131, 52.5, 36.884481683),
    ]]
    draft(prec_screwdriver_profile_6_sides, Plane(origin=(0, 102.5, 0), x_dir=(1, 0, 0), z_dir=(0, 1, 0)), PREC_SCREWDRIVER_PROFILE_6_DRAFT)


with BuildPart() as part_14:
    add(part_13.part)

    # prec screwdriver profile 6: cut by prec_screwdriver_profile_6_tool
    add(prec_screwdriver_profile_6_tool.part, mode=Mode.SUBTRACT)


with BuildPart() as prec_screwdriver_profile_7_tool:
    # Sketch3 → prec screwdriver profile 7 (with draft: the straight prism first)
    with BuildSketch(Plane(origin=(0, 102.5, 0), x_dir=(1, 0, 0), z_dir=(0, 1, 0))):
        with Locations((137.5, -61.884481683)):
            Circle(SKETCH3_R)
    extrude(amount=-PREC_SCREWDRIVER_PROFILE_7_DEPTH)
    # prec screwdriver profile 7: the draft: its side faces are tilted about the plane it starts from
    prec_screwdriver_profile_7_sides = [prec_screwdriver_profile_7_tool.faces().sort_by_distance(p)[0] for p in [
        (131, 52.5, 61.884481683),
    ]]
    draft(prec_screwdriver_profile_7_sides, Plane(origin=(0, 102.5, 0), x_dir=(1, 0, 0), z_dir=(0, 1, 0)), PREC_SCREWDRIVER_PROFILE_7_DRAFT)


with BuildPart() as part_15:
    add(part_14.part)

    # prec screwdriver profile 7: cut by prec_screwdriver_profile_7_tool
    add(prec_screwdriver_profile_7_tool.part, mode=Mode.SUBTRACT)


with BuildPart() as prec_screwdriver_profile_8_tool:
    # Sketch3 → prec screwdriver profile 8 (with draft: the straight prism first)
    with BuildSketch(Plane(origin=(0, 102.5, 0), x_dir=(1, 0, 0), z_dir=(0, 1, 0))):
        with Locations((137.5, -86.884481683)):
            Circle(SKETCH3_R)
    extrude(amount=-PREC_SCREWDRIVER_PROFILE_8_DEPTH)
    # prec screwdriver profile 8: the draft: its side faces are tilted about the plane it starts from
    prec_screwdriver_profile_8_sides = [prec_screwdriver_profile_8_tool.faces().sort_by_distance(p)[0] for p in [
        (131, 52.5, 86.884481683),
    ]]
    draft(prec_screwdriver_profile_8_sides, Plane(origin=(0, 102.5, 0), x_dir=(1, 0, 0), z_dir=(0, 1, 0)), PREC_SCREWDRIVER_PROFILE_8_DRAFT)


with BuildPart() as part_16:
    add(part_15.part)

    # prec screwdriver profile 8: cut by prec_screwdriver_profile_8_tool
    add(prec_screwdriver_profile_8_tool.part, mode=Mode.SUBTRACT)


with BuildPart() as needle_nose_tool:
    # Sketch4 → needle nose (with draft: the straight prism first)
    with BuildSketch(Plane(origin=(0, 77.5, 0), x_dir=(1, 0, 0), z_dir=(0, 1, 0))):
        with Locations((56, -50)):
            Rectangle(SKETCH4_W, SKETCH4_H)
    extrude(amount=-NEEDLE_NOSE_DEPTH)
    # needle nose: the draft: its side faces are tilted about the plane it starts from
    needle_nose_sides = [needle_nose_tool.faces().sort_by_distance(p)[0] for p in [
        (62, 40, 50),
        (56, 40, 15),
        (50, 40, 50),
        (56, 40, 85),
    ]]
    draft(needle_nose_sides, Plane(origin=(0, 77.5, 0), x_dir=(1, 0, 0), z_dir=(0, 1, 0)), NEEDLE_NOSE_DRAFT)


with BuildPart() as part_17:
    add(part_16.part)

    # needle nose: cut by needle_nose_tool
    add(needle_nose_tool.part, mode=Mode.SUBTRACT)


with BuildPart() as scissor_tool:
    # Sketch6 → scissor (with draft: the straight prism first)
    with BuildSketch(Plane(origin=(0, 77.5, 0), x_dir=(1, 0, 0), z_dir=(0, 1, 0))):
        with Locations((26, -50)):
            Rectangle(SKETCH6_W, SKETCH6_H)
    extrude(amount=-SCISSOR_DEPTH)
    # scissor: the draft: its side faces are tilted about the plane it starts from
    scissor_sides = [scissor_tool.faces().sort_by_distance(p)[0] for p in [
        (32, 40, 50),
        (26, 40, 41),
        (20, 40, 50),
        (26, 40, 59),
    ]]
    draft(scissor_sides, Plane(origin=(0, 77.5, 0), x_dir=(1, 0, 0), z_dir=(0, 1, 0)), SCISSOR_DRAFT)


with BuildPart() as part_18:
    add(part_17.part)

    # scissor: cut by scissor_tool
    add(scissor_tool.part, mode=Mode.SUBTRACT)


solid = part_18.part
